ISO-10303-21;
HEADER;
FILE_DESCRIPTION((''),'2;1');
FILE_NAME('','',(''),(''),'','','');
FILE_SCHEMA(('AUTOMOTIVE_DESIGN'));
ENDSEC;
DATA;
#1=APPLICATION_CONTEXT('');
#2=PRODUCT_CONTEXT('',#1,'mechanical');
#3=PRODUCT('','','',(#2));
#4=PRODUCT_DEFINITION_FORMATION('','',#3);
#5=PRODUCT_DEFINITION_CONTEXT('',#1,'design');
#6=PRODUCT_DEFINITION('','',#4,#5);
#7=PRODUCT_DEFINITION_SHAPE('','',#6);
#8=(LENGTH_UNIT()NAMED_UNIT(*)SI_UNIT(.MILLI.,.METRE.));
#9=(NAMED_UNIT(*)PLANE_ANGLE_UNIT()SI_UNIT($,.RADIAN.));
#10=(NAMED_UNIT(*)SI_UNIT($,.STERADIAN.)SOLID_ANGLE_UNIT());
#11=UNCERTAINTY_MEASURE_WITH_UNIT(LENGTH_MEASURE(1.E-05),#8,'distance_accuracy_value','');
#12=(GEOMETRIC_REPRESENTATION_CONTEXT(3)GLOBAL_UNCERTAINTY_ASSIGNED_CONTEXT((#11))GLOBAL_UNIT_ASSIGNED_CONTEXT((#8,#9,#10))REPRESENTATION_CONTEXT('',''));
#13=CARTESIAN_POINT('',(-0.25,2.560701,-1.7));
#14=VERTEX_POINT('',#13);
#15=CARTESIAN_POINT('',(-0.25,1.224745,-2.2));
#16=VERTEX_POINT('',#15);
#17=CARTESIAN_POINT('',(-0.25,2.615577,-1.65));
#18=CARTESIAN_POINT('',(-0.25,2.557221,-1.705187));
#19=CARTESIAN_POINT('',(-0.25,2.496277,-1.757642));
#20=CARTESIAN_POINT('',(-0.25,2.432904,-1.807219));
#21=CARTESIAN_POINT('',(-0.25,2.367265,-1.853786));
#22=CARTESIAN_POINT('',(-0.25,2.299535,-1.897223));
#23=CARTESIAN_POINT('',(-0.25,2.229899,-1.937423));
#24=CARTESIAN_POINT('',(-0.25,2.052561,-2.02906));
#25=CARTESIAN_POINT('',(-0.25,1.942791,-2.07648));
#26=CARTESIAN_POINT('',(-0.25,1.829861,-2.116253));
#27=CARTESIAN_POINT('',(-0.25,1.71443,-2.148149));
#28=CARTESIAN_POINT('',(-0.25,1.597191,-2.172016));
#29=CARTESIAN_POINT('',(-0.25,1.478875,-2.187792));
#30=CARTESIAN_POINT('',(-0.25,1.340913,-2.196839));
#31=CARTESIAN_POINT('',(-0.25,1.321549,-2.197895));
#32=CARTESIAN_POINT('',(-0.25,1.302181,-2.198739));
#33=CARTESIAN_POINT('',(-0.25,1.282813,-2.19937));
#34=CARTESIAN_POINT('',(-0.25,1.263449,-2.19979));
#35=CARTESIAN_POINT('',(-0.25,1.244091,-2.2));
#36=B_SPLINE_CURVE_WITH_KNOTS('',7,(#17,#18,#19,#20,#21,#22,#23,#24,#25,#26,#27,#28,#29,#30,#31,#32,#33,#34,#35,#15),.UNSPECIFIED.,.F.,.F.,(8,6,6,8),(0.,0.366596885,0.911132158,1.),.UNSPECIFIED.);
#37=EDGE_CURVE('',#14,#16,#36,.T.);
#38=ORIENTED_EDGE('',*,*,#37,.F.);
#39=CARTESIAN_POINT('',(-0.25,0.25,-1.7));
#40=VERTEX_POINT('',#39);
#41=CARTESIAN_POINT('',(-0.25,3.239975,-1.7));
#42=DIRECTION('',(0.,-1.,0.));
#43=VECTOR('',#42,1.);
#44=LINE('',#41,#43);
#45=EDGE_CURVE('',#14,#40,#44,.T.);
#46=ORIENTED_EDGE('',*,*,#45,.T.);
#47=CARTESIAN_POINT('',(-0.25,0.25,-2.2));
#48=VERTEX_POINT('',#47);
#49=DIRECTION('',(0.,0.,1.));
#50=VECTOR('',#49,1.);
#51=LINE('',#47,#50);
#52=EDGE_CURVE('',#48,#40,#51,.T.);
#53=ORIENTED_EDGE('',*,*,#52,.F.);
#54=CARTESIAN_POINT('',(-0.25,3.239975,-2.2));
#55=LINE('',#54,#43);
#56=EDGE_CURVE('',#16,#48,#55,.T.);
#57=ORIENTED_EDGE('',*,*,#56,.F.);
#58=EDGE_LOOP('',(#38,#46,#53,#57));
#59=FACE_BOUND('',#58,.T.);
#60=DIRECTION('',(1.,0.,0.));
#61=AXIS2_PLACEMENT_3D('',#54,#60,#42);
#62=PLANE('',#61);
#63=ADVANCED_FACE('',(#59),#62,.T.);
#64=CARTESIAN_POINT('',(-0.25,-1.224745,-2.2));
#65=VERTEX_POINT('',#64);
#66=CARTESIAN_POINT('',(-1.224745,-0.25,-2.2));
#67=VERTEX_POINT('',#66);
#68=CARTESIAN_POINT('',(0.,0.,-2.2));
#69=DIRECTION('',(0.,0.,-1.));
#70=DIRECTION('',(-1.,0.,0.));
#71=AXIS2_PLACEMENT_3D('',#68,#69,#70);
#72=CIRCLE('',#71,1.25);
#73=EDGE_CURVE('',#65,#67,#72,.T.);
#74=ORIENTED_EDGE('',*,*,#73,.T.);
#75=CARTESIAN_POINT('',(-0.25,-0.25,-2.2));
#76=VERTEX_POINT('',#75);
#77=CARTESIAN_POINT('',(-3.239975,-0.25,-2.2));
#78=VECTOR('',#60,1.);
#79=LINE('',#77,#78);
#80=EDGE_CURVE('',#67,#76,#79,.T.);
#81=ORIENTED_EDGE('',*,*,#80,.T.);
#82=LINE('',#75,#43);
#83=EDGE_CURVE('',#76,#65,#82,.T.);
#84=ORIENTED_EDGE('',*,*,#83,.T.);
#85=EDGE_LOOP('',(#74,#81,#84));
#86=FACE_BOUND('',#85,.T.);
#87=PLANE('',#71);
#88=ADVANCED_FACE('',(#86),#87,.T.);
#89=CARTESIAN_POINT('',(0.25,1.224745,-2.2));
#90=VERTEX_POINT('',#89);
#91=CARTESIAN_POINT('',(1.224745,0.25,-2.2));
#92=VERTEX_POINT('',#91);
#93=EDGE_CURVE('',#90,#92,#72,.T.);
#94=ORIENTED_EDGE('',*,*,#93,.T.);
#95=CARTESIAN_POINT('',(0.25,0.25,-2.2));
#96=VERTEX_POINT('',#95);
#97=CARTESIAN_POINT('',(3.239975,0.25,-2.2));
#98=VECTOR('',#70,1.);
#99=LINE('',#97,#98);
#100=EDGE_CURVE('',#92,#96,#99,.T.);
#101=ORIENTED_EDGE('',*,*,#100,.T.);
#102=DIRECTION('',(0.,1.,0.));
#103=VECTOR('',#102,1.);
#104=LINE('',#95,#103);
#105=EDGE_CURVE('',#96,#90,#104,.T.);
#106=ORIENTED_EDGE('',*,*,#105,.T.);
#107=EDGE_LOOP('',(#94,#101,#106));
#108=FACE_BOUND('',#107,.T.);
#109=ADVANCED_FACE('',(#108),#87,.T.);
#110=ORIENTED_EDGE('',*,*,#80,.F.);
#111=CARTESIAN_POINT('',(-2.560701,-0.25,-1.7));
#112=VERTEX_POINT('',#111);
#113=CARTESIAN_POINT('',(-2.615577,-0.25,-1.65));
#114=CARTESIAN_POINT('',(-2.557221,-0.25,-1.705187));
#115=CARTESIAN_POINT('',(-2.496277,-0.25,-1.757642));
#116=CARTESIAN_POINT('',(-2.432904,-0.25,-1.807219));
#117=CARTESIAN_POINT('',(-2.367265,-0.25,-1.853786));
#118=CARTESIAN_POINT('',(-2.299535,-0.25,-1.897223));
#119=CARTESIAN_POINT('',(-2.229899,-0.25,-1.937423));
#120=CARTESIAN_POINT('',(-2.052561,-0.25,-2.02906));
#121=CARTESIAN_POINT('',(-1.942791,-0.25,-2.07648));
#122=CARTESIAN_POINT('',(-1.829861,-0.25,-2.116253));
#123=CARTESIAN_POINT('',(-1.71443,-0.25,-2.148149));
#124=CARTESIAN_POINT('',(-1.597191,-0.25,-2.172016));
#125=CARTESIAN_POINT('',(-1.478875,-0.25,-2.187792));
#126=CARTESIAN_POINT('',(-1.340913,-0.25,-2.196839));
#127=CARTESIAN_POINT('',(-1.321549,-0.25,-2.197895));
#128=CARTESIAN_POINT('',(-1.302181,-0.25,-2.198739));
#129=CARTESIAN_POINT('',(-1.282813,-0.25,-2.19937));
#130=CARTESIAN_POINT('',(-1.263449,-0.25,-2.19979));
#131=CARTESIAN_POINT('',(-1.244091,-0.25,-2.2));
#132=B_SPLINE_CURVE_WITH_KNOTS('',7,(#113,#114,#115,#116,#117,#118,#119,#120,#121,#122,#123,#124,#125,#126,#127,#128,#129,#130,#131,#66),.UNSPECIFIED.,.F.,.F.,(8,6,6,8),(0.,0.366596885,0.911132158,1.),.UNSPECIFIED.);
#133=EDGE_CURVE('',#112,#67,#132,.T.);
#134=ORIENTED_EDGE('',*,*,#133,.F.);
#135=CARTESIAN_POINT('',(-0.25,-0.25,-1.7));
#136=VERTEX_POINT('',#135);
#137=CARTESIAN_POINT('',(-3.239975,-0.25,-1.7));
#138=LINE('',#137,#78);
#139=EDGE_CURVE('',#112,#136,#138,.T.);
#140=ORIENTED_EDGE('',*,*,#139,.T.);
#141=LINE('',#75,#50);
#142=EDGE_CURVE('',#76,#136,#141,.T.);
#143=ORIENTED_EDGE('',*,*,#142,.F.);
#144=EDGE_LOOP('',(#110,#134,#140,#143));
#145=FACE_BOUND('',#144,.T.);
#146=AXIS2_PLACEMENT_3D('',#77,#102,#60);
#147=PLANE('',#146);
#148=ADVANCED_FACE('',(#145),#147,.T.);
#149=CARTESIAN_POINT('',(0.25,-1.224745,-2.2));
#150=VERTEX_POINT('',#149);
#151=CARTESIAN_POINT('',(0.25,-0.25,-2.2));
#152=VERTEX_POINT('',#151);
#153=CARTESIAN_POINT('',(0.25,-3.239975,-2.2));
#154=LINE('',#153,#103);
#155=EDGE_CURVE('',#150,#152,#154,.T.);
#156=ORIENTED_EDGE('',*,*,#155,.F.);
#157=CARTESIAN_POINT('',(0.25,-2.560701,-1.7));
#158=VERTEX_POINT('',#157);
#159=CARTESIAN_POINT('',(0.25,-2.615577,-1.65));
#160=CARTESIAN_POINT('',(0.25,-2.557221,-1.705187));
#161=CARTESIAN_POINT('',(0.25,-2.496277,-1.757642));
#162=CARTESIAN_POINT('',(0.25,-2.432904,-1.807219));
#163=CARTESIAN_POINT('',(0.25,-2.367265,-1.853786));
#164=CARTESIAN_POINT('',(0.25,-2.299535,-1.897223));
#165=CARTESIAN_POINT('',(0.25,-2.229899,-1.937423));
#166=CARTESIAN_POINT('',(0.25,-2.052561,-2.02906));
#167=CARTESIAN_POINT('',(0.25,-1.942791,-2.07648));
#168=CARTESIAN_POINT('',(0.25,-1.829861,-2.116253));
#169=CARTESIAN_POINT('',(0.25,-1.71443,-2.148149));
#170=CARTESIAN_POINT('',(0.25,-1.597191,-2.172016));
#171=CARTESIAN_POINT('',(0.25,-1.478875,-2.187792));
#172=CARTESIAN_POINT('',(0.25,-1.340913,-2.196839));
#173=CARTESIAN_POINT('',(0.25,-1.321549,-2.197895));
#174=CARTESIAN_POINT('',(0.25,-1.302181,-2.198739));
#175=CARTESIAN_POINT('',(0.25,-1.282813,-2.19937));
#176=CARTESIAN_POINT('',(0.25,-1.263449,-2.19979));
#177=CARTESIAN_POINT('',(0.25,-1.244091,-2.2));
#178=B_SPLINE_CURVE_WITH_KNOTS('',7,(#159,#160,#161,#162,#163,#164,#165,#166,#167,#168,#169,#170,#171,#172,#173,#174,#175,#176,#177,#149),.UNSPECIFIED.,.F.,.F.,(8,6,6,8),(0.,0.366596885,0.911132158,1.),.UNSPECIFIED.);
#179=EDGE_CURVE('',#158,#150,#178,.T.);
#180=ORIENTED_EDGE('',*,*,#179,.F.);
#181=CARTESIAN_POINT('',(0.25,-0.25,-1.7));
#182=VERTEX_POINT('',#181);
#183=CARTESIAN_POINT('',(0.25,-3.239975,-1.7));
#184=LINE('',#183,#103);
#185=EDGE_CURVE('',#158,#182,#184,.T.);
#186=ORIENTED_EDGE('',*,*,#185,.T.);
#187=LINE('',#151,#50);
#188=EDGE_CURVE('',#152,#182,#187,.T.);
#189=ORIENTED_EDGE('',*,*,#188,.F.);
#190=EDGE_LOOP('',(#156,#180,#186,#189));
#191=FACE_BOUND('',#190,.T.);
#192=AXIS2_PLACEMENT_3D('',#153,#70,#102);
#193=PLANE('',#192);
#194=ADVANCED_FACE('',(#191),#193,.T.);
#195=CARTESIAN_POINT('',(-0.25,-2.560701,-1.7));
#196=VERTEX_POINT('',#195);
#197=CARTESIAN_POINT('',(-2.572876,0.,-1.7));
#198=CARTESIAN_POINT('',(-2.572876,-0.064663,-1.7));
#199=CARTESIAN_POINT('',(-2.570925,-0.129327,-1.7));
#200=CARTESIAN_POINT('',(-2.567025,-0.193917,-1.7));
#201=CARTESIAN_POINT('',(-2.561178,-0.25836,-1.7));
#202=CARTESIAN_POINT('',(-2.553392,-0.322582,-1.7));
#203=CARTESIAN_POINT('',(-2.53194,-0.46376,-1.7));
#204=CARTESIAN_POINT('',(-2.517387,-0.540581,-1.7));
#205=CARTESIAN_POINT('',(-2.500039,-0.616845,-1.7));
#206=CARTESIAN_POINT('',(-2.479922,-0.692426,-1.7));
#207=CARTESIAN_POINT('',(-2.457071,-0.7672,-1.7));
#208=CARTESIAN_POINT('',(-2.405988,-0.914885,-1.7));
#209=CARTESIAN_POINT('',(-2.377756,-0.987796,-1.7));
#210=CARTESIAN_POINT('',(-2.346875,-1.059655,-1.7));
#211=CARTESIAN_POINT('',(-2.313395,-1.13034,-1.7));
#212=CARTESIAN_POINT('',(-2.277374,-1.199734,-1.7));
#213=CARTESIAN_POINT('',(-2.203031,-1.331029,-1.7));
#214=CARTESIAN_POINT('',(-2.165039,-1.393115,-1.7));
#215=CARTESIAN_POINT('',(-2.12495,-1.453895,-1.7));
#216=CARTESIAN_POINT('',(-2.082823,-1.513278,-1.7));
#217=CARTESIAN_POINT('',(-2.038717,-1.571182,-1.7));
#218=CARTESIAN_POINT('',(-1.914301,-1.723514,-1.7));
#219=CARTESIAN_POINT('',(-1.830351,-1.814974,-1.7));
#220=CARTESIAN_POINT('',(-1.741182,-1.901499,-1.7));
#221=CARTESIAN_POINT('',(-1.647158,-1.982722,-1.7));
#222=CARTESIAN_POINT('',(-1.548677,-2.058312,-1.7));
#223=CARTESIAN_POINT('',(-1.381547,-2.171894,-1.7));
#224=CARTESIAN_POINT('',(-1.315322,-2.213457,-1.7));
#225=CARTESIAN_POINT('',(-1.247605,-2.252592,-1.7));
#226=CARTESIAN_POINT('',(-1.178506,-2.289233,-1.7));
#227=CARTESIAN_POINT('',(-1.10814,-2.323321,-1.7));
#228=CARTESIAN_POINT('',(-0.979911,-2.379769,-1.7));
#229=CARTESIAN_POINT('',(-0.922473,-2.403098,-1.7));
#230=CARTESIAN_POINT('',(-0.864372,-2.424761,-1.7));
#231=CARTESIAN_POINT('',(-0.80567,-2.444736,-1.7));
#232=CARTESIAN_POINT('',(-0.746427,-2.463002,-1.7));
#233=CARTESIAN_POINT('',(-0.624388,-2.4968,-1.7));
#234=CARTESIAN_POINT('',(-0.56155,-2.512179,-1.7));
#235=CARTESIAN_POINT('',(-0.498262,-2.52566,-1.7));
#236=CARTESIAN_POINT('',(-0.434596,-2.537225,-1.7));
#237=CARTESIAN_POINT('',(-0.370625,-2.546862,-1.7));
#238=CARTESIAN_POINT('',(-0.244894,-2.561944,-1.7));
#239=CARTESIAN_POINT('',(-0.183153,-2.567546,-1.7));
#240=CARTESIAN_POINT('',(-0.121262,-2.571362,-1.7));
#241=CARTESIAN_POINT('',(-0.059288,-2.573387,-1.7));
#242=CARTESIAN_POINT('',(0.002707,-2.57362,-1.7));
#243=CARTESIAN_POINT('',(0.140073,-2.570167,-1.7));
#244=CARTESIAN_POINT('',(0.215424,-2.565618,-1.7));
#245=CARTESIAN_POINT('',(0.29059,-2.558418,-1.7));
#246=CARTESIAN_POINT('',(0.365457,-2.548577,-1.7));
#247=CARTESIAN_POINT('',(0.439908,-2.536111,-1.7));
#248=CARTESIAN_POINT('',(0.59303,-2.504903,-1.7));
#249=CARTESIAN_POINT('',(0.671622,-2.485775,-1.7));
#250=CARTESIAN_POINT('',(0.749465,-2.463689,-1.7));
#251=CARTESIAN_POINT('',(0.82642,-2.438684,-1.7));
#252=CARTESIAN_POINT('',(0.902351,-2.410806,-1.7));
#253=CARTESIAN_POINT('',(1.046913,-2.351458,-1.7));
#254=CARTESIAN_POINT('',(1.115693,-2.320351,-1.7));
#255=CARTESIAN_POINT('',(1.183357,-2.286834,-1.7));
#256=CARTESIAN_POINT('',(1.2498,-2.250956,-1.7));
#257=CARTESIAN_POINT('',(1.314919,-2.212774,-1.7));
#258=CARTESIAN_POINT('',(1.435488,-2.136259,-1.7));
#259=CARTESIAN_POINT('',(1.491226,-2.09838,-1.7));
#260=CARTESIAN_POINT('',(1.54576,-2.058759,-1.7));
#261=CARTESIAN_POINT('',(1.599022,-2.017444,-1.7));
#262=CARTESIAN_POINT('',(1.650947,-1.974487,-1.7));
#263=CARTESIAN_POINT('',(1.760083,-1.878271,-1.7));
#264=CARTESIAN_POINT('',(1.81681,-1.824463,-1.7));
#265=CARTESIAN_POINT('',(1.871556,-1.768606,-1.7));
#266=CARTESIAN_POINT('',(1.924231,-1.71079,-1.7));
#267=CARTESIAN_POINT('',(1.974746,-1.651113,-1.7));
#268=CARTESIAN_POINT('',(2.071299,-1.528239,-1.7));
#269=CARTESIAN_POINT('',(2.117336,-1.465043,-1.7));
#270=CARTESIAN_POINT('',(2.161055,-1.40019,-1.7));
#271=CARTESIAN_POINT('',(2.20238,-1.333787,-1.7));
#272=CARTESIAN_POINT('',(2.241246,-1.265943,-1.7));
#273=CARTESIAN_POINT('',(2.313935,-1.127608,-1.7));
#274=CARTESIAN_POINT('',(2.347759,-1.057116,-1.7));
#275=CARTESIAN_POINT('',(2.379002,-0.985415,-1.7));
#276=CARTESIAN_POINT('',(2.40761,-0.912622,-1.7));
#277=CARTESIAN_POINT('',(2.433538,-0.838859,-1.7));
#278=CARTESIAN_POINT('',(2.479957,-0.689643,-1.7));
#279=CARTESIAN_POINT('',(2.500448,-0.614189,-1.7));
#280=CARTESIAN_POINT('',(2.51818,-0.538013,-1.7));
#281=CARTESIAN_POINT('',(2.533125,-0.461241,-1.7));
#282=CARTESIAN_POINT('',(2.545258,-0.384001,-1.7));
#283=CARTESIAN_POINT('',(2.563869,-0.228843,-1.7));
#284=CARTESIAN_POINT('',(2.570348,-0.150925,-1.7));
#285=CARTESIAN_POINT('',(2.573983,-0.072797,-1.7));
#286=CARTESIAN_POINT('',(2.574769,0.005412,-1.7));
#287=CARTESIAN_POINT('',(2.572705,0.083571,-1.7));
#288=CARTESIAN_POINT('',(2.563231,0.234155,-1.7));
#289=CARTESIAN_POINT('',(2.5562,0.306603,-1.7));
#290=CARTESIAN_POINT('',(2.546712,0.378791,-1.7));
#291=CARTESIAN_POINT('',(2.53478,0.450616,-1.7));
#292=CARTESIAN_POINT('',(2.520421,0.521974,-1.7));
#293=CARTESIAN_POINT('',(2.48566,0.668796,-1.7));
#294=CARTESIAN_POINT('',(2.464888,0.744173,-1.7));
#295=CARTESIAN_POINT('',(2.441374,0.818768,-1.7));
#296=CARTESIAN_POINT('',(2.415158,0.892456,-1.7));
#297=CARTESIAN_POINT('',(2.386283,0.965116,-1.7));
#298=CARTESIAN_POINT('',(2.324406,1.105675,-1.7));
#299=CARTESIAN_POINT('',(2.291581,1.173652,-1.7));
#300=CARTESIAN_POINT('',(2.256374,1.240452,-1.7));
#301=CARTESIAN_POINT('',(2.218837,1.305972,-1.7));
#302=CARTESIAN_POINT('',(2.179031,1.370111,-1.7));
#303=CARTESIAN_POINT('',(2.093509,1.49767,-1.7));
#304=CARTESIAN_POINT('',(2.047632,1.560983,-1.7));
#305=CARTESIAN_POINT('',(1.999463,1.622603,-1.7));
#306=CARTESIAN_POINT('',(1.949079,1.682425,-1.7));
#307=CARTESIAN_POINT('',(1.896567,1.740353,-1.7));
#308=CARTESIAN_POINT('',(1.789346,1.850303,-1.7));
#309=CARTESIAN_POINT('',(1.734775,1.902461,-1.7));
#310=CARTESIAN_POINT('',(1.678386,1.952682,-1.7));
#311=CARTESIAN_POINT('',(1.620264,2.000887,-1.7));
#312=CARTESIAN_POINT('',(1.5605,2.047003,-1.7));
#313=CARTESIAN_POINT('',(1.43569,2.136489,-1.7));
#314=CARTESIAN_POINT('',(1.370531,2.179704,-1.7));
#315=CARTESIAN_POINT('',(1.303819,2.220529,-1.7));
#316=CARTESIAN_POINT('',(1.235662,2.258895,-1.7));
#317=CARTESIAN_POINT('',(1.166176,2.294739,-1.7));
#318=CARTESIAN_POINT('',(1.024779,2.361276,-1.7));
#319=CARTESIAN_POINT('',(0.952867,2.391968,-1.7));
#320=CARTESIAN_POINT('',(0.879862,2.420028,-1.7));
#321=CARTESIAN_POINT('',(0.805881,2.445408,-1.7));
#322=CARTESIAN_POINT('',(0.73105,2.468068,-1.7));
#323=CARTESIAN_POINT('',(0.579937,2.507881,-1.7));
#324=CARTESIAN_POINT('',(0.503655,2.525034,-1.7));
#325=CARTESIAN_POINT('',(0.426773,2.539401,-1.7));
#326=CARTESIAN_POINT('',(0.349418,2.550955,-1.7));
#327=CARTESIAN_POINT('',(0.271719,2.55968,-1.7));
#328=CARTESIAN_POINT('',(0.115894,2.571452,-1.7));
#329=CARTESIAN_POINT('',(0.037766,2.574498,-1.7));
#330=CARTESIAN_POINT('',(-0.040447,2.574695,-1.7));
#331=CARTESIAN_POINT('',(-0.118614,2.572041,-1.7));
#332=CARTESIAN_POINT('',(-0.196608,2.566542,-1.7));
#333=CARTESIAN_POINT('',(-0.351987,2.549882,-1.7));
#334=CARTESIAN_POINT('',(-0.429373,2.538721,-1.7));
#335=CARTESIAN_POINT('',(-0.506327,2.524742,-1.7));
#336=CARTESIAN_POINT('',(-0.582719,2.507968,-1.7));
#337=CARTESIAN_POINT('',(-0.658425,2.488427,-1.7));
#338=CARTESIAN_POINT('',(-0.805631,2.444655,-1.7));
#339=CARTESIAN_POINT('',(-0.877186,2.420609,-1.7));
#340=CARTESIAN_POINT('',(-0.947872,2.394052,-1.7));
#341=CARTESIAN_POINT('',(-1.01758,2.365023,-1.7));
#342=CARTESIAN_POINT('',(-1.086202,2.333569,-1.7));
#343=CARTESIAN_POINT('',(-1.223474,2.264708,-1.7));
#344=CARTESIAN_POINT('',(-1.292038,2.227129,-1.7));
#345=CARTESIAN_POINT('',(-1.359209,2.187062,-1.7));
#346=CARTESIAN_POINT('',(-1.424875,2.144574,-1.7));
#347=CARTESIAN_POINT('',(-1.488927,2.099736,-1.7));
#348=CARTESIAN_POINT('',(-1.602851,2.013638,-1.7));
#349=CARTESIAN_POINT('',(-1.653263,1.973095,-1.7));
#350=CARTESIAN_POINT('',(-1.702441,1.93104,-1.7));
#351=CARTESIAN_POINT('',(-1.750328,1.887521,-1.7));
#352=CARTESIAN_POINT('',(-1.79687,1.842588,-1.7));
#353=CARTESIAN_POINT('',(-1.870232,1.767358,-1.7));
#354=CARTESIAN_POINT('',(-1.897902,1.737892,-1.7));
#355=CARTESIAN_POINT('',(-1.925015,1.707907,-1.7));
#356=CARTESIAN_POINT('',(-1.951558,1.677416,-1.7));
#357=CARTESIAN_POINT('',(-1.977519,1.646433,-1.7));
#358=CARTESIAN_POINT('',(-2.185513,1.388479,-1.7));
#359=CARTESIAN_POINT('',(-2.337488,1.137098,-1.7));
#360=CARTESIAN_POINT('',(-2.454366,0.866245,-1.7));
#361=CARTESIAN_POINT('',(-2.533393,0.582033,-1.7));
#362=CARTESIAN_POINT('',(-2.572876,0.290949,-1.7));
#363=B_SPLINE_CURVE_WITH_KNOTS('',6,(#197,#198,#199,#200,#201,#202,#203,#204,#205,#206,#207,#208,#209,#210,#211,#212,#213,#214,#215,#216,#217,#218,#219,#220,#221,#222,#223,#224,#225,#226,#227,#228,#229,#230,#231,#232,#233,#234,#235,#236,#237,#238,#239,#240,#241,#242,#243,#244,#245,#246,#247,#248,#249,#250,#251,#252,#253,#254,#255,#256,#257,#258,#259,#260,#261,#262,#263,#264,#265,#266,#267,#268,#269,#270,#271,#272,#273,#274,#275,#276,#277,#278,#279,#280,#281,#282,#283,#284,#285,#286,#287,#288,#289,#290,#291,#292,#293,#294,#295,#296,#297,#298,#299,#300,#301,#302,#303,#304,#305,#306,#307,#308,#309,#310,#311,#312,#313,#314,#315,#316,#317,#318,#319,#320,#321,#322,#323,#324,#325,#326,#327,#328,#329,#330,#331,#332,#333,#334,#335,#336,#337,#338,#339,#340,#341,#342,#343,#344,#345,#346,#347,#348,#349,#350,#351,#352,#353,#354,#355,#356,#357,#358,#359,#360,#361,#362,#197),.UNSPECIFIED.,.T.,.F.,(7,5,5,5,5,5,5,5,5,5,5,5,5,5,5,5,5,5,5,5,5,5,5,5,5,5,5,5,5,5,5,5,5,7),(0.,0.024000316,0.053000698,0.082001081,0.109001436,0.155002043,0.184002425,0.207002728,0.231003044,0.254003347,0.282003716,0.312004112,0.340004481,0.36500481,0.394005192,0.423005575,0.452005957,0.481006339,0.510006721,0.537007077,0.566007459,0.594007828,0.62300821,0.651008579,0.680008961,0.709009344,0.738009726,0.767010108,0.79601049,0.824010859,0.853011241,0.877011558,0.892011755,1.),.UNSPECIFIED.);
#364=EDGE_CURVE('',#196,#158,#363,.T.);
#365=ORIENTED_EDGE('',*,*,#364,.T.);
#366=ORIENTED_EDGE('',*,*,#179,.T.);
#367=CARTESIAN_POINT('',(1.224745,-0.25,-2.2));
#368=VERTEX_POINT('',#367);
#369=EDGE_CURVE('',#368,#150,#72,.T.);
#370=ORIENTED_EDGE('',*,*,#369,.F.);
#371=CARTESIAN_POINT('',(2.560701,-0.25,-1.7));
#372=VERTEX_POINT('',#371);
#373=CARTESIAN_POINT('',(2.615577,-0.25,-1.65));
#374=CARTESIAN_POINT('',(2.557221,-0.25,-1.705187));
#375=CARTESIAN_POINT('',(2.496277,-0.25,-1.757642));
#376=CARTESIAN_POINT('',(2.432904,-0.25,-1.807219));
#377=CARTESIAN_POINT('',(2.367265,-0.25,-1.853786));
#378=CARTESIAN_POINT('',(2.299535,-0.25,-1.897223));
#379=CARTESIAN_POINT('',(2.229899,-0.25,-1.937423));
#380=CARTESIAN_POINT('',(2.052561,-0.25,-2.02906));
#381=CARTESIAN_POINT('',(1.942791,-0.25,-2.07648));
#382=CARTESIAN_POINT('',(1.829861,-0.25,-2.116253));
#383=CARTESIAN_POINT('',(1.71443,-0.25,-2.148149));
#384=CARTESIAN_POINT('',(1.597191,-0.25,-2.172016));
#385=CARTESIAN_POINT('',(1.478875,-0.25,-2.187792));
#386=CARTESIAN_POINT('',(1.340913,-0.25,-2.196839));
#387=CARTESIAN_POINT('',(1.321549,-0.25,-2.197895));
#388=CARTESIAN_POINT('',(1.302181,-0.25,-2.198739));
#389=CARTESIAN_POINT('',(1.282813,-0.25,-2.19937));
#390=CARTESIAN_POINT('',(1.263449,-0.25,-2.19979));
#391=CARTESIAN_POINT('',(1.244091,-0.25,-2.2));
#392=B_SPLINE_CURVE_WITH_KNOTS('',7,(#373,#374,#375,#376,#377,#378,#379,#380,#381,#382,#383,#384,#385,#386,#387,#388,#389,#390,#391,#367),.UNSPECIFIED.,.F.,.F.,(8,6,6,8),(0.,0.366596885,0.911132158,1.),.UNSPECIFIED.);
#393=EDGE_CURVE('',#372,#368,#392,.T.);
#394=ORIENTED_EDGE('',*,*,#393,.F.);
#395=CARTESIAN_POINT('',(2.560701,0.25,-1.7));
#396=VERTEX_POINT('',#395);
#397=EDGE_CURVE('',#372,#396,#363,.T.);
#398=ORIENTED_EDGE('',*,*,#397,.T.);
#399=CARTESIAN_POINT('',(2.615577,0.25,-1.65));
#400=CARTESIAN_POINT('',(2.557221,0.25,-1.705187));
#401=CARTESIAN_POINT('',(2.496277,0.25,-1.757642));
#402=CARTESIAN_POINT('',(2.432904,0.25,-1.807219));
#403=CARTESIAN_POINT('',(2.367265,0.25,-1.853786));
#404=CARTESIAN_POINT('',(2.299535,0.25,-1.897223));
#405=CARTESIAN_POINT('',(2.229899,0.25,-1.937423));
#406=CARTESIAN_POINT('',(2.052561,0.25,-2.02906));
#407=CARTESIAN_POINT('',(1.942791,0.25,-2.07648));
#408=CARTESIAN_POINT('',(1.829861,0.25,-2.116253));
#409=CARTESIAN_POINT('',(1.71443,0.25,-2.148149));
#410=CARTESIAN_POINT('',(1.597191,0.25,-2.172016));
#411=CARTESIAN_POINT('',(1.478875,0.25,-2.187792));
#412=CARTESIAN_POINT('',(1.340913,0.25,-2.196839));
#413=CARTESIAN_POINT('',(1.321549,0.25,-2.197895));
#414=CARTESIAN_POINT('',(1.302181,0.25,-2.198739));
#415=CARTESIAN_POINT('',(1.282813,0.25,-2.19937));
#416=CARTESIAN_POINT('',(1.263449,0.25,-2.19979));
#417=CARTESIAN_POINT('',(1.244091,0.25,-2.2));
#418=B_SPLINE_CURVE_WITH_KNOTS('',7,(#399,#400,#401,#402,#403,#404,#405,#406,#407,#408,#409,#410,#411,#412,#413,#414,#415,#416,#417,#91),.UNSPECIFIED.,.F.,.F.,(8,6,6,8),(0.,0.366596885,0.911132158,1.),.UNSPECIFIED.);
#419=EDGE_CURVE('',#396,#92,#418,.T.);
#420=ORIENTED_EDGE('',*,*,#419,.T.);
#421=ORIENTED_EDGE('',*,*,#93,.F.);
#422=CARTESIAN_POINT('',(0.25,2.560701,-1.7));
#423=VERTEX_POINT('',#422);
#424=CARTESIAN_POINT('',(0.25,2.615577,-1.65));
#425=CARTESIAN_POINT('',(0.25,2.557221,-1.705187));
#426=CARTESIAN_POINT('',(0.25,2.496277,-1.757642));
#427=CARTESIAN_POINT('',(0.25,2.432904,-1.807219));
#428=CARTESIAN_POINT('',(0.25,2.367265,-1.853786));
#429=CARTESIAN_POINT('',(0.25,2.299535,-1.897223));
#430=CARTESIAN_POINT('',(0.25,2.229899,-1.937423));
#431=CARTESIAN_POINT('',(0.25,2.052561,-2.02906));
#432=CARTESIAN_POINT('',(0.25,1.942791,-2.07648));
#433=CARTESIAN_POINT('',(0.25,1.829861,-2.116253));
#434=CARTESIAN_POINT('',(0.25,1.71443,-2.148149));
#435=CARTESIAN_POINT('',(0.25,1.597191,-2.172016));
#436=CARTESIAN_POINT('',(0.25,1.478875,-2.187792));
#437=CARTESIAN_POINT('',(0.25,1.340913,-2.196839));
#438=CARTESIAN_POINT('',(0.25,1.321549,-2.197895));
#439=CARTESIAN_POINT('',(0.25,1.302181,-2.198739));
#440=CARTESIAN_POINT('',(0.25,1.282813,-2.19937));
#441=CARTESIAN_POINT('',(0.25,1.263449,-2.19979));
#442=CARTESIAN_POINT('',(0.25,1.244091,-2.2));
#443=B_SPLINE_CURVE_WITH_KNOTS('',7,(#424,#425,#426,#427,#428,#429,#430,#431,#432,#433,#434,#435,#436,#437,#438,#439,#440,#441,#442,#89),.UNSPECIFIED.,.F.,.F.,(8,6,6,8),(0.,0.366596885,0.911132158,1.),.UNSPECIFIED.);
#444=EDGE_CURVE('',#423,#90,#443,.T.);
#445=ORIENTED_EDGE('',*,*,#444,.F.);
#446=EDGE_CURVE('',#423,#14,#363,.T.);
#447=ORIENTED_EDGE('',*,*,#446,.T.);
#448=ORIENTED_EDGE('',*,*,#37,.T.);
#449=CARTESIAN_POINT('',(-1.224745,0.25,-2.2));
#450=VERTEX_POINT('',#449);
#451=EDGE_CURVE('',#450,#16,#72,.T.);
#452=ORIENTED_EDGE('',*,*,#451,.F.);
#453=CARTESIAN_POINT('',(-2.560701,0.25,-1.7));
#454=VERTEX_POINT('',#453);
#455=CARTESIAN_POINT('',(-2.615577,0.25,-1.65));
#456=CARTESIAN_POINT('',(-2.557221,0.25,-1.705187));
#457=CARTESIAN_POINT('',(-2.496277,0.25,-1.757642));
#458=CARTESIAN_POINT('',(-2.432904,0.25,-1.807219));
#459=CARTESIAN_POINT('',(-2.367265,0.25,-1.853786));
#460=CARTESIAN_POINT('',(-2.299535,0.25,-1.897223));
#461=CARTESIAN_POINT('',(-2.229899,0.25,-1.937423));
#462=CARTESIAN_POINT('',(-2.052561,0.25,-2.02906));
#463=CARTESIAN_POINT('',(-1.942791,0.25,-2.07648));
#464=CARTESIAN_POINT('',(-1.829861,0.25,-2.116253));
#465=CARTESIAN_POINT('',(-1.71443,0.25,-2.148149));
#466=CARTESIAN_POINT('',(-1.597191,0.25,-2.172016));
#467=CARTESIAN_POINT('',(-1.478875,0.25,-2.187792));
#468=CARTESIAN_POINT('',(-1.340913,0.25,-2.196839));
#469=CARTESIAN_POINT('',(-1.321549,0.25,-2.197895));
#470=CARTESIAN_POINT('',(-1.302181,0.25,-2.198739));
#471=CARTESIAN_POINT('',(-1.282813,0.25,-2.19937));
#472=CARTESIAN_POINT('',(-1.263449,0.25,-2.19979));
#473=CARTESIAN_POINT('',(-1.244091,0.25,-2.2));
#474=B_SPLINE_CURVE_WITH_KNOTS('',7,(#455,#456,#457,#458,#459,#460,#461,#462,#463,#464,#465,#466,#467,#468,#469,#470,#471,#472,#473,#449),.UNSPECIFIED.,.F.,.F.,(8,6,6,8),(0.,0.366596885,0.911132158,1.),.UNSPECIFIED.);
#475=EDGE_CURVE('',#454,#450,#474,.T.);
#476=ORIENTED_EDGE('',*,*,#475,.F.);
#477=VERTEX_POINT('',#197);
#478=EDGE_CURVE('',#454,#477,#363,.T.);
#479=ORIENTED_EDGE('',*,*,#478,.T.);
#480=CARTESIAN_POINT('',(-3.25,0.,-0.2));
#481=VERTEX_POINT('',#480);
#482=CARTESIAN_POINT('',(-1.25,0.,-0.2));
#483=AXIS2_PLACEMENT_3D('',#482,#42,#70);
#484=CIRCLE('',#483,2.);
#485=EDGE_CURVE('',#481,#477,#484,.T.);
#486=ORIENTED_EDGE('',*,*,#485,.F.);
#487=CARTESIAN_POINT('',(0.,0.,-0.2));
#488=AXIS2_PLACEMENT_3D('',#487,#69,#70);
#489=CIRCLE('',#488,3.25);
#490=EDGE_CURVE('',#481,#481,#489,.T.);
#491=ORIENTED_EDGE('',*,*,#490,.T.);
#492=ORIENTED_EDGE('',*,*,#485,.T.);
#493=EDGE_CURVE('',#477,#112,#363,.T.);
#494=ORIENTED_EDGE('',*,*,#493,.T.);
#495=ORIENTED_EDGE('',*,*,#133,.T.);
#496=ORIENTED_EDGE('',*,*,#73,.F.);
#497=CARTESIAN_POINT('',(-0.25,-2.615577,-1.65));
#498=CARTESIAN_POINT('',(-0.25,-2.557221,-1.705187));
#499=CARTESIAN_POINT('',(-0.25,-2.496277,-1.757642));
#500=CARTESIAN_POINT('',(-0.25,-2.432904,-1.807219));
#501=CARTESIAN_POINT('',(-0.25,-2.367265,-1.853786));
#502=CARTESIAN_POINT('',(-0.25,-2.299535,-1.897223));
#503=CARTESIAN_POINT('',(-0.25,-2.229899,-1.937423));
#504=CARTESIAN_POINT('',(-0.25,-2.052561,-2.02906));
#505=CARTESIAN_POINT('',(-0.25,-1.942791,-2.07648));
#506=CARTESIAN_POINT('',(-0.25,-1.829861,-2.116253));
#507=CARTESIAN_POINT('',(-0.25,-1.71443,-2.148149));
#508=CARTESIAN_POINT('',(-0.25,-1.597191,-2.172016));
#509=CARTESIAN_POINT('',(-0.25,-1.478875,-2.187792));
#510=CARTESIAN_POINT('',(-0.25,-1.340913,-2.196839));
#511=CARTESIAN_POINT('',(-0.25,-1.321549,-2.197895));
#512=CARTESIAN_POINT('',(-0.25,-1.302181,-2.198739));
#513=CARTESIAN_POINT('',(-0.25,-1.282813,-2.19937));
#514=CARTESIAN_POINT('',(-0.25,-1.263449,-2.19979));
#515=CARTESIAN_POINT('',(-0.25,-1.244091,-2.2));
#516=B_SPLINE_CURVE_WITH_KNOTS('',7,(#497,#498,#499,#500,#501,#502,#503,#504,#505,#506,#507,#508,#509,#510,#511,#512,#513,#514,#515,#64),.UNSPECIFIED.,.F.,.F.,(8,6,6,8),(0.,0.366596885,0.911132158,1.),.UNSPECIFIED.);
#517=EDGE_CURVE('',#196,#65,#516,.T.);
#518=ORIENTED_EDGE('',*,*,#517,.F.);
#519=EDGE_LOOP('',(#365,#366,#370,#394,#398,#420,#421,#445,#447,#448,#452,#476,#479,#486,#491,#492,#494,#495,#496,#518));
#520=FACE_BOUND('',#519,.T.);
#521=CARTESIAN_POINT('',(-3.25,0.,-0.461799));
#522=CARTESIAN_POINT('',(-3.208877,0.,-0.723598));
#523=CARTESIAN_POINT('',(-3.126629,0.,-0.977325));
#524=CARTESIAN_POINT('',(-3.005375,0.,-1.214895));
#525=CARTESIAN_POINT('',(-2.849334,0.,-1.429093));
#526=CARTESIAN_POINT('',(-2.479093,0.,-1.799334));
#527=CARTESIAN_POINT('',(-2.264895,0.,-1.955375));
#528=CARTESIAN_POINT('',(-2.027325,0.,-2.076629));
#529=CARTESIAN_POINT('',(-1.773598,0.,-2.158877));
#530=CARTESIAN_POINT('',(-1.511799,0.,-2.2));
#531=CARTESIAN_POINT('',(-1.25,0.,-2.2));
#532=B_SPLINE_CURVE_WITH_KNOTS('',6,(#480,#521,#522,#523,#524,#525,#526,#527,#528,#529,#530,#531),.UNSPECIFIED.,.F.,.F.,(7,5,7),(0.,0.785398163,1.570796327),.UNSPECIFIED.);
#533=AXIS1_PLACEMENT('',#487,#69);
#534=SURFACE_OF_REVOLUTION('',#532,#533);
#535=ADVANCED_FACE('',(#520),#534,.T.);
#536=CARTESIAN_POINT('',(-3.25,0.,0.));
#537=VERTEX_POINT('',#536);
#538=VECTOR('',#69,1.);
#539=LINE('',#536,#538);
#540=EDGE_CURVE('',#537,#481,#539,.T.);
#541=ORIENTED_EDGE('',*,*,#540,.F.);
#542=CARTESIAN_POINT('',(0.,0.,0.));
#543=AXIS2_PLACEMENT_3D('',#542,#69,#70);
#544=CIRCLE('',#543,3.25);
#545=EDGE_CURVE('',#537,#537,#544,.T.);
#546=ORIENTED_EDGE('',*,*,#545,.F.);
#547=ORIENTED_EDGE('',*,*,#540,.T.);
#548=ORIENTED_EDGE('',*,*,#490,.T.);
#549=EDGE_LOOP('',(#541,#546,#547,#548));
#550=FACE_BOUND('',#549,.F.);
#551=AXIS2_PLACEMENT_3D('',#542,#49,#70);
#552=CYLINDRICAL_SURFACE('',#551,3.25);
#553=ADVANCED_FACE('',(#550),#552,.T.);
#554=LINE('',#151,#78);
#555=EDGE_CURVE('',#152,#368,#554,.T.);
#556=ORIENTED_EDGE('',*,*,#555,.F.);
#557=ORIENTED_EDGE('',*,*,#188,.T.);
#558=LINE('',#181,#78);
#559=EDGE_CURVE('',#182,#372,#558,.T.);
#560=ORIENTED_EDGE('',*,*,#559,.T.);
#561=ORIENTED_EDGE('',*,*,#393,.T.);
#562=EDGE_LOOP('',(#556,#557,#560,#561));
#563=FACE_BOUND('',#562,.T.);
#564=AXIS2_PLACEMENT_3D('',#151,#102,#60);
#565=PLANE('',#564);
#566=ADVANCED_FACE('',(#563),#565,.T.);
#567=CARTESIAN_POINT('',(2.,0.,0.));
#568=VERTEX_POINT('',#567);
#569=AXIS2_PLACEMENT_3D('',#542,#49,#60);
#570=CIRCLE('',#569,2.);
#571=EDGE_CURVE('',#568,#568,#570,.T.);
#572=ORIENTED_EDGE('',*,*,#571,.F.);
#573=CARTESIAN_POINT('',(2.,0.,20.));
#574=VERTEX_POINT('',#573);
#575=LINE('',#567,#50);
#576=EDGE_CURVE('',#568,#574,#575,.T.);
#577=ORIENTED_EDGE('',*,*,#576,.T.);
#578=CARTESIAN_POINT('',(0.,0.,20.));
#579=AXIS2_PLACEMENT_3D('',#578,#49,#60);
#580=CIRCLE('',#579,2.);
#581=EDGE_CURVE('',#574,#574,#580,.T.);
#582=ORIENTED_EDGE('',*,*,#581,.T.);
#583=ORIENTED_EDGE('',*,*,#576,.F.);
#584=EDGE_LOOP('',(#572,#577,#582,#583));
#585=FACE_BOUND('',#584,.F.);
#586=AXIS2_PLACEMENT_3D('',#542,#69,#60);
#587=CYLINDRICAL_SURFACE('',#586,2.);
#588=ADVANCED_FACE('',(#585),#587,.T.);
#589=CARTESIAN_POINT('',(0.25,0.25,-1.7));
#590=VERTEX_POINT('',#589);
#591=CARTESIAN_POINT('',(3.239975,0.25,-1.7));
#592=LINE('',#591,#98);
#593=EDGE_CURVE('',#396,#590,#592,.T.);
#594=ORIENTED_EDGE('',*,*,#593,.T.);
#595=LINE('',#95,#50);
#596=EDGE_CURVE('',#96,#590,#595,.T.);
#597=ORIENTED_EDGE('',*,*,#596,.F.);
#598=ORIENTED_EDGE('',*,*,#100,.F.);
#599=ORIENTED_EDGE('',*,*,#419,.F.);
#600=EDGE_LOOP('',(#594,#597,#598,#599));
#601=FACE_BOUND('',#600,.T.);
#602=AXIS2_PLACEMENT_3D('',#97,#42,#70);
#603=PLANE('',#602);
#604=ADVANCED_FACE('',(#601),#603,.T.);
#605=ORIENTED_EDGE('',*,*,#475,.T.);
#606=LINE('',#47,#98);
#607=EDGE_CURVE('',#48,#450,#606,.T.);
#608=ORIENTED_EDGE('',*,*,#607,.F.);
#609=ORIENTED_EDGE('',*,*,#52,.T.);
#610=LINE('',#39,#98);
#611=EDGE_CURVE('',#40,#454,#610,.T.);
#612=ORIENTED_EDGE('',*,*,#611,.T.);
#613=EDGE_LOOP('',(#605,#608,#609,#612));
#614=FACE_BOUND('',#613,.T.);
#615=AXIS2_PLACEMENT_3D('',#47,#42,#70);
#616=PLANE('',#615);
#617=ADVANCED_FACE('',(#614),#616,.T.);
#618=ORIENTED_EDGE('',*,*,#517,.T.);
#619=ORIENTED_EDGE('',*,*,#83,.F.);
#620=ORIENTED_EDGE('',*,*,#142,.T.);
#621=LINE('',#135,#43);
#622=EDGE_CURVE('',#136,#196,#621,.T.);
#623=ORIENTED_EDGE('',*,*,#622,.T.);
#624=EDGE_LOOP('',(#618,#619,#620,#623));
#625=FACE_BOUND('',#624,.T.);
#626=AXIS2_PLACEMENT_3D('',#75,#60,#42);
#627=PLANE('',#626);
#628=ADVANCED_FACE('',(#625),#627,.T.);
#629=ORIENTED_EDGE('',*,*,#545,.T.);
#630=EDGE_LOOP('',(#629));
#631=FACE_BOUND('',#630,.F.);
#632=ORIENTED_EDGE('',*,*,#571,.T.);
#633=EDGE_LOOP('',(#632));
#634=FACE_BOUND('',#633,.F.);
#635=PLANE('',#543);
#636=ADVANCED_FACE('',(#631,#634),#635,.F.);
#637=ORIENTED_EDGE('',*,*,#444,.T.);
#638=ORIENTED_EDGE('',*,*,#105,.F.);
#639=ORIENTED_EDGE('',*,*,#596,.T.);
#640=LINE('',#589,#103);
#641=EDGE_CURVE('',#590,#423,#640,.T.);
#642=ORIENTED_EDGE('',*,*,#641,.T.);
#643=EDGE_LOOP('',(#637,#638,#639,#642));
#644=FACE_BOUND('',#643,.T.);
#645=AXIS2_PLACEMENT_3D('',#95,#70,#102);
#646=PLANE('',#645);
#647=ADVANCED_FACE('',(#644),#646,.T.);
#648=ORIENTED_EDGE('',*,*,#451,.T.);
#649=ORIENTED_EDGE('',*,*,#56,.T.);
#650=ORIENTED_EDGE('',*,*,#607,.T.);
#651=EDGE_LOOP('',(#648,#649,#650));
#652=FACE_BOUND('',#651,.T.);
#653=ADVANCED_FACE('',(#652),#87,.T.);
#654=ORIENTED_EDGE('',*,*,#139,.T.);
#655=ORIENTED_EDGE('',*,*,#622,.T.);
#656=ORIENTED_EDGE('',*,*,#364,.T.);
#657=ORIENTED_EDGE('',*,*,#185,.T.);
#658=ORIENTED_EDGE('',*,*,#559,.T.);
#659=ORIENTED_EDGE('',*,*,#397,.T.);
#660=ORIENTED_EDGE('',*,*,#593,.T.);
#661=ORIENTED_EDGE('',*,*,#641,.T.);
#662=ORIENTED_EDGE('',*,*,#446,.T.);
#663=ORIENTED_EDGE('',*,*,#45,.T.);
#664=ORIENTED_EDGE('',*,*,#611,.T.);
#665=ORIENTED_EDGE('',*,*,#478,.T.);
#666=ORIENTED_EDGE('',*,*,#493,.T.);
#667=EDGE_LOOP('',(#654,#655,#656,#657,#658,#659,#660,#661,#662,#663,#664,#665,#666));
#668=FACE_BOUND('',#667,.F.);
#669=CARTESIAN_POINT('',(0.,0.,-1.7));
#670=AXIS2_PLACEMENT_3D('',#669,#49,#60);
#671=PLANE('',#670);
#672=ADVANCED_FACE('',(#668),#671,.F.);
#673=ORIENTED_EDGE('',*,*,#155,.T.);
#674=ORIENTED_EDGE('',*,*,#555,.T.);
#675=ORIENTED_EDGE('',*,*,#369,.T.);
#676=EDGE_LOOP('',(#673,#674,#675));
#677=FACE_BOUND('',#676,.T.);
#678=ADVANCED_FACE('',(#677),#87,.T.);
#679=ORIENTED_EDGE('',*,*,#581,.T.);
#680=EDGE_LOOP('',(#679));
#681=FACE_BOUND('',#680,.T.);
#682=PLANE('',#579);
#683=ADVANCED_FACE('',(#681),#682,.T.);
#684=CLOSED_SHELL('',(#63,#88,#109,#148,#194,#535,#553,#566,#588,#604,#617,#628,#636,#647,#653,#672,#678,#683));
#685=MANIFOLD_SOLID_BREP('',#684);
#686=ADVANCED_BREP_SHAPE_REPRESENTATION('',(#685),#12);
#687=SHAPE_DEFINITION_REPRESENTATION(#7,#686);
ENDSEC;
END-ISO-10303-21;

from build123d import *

# Parameters (mm, degrees)
SKETCH_1_R          = 2
EXTRUDE_1_DEPTH     = 20
SKETCH_2_R          = 3.25
EXTRUDE_2_DEPTH     = 2.2
FILLET_1_R          = 2
CUT_EXTRUDE_1_DEPTH = 0.5


with BuildPart() as part:
    # 草图1 → 凸台-拉伸1 (new body)
    with BuildSketch(Plane.XY):
        Circle(SKETCH_1_R)
    extrude(amount=EXTRUDE_1_DEPTH)

    # 草图2 → 凸台-拉伸2 (add)
    with BuildSketch(Plane(origin=(0, 0, 0), x_dir=(-1, 0, 0), z_dir=(0, 0, -1))):
        Circle(SKETCH_2_R)
    extrude(amount=EXTRUDE_2_DEPTH)

    # 圆角1
    fillet_1_edges = [part.edges().sort_by_distance(p)[0] for p in [
        (3.25, 0, -2.2),
    ]]
    fillet(fillet_1_edges, radius=FILLET_1_R)

    # 草图3 → 切除-拉伸1 (cut)
    with BuildSketch(Plane(origin=(0, 0, -2.2), x_dir=(-1, 0, 0), z_dir=(0, 0, -1))):
        Polygon((3.239974874, 0.25), (3.239974874, -0.25), (0.25, -0.25), (0.25, -3.239974874), (-0.25, -3.239974874), (-0.25, -0.25), (-3.239974874, -0.25), (-3.239974874, 0.25), (-0.25, 0.25), (-0.25, 3.239974874), (0.25, 3.239974874), (0.25, 0.25), align=None)
    extrude(amount=-CUT_EXTRUDE_1_DEPTH, mode=Mode.SUBTRACT)


solid = part.part
